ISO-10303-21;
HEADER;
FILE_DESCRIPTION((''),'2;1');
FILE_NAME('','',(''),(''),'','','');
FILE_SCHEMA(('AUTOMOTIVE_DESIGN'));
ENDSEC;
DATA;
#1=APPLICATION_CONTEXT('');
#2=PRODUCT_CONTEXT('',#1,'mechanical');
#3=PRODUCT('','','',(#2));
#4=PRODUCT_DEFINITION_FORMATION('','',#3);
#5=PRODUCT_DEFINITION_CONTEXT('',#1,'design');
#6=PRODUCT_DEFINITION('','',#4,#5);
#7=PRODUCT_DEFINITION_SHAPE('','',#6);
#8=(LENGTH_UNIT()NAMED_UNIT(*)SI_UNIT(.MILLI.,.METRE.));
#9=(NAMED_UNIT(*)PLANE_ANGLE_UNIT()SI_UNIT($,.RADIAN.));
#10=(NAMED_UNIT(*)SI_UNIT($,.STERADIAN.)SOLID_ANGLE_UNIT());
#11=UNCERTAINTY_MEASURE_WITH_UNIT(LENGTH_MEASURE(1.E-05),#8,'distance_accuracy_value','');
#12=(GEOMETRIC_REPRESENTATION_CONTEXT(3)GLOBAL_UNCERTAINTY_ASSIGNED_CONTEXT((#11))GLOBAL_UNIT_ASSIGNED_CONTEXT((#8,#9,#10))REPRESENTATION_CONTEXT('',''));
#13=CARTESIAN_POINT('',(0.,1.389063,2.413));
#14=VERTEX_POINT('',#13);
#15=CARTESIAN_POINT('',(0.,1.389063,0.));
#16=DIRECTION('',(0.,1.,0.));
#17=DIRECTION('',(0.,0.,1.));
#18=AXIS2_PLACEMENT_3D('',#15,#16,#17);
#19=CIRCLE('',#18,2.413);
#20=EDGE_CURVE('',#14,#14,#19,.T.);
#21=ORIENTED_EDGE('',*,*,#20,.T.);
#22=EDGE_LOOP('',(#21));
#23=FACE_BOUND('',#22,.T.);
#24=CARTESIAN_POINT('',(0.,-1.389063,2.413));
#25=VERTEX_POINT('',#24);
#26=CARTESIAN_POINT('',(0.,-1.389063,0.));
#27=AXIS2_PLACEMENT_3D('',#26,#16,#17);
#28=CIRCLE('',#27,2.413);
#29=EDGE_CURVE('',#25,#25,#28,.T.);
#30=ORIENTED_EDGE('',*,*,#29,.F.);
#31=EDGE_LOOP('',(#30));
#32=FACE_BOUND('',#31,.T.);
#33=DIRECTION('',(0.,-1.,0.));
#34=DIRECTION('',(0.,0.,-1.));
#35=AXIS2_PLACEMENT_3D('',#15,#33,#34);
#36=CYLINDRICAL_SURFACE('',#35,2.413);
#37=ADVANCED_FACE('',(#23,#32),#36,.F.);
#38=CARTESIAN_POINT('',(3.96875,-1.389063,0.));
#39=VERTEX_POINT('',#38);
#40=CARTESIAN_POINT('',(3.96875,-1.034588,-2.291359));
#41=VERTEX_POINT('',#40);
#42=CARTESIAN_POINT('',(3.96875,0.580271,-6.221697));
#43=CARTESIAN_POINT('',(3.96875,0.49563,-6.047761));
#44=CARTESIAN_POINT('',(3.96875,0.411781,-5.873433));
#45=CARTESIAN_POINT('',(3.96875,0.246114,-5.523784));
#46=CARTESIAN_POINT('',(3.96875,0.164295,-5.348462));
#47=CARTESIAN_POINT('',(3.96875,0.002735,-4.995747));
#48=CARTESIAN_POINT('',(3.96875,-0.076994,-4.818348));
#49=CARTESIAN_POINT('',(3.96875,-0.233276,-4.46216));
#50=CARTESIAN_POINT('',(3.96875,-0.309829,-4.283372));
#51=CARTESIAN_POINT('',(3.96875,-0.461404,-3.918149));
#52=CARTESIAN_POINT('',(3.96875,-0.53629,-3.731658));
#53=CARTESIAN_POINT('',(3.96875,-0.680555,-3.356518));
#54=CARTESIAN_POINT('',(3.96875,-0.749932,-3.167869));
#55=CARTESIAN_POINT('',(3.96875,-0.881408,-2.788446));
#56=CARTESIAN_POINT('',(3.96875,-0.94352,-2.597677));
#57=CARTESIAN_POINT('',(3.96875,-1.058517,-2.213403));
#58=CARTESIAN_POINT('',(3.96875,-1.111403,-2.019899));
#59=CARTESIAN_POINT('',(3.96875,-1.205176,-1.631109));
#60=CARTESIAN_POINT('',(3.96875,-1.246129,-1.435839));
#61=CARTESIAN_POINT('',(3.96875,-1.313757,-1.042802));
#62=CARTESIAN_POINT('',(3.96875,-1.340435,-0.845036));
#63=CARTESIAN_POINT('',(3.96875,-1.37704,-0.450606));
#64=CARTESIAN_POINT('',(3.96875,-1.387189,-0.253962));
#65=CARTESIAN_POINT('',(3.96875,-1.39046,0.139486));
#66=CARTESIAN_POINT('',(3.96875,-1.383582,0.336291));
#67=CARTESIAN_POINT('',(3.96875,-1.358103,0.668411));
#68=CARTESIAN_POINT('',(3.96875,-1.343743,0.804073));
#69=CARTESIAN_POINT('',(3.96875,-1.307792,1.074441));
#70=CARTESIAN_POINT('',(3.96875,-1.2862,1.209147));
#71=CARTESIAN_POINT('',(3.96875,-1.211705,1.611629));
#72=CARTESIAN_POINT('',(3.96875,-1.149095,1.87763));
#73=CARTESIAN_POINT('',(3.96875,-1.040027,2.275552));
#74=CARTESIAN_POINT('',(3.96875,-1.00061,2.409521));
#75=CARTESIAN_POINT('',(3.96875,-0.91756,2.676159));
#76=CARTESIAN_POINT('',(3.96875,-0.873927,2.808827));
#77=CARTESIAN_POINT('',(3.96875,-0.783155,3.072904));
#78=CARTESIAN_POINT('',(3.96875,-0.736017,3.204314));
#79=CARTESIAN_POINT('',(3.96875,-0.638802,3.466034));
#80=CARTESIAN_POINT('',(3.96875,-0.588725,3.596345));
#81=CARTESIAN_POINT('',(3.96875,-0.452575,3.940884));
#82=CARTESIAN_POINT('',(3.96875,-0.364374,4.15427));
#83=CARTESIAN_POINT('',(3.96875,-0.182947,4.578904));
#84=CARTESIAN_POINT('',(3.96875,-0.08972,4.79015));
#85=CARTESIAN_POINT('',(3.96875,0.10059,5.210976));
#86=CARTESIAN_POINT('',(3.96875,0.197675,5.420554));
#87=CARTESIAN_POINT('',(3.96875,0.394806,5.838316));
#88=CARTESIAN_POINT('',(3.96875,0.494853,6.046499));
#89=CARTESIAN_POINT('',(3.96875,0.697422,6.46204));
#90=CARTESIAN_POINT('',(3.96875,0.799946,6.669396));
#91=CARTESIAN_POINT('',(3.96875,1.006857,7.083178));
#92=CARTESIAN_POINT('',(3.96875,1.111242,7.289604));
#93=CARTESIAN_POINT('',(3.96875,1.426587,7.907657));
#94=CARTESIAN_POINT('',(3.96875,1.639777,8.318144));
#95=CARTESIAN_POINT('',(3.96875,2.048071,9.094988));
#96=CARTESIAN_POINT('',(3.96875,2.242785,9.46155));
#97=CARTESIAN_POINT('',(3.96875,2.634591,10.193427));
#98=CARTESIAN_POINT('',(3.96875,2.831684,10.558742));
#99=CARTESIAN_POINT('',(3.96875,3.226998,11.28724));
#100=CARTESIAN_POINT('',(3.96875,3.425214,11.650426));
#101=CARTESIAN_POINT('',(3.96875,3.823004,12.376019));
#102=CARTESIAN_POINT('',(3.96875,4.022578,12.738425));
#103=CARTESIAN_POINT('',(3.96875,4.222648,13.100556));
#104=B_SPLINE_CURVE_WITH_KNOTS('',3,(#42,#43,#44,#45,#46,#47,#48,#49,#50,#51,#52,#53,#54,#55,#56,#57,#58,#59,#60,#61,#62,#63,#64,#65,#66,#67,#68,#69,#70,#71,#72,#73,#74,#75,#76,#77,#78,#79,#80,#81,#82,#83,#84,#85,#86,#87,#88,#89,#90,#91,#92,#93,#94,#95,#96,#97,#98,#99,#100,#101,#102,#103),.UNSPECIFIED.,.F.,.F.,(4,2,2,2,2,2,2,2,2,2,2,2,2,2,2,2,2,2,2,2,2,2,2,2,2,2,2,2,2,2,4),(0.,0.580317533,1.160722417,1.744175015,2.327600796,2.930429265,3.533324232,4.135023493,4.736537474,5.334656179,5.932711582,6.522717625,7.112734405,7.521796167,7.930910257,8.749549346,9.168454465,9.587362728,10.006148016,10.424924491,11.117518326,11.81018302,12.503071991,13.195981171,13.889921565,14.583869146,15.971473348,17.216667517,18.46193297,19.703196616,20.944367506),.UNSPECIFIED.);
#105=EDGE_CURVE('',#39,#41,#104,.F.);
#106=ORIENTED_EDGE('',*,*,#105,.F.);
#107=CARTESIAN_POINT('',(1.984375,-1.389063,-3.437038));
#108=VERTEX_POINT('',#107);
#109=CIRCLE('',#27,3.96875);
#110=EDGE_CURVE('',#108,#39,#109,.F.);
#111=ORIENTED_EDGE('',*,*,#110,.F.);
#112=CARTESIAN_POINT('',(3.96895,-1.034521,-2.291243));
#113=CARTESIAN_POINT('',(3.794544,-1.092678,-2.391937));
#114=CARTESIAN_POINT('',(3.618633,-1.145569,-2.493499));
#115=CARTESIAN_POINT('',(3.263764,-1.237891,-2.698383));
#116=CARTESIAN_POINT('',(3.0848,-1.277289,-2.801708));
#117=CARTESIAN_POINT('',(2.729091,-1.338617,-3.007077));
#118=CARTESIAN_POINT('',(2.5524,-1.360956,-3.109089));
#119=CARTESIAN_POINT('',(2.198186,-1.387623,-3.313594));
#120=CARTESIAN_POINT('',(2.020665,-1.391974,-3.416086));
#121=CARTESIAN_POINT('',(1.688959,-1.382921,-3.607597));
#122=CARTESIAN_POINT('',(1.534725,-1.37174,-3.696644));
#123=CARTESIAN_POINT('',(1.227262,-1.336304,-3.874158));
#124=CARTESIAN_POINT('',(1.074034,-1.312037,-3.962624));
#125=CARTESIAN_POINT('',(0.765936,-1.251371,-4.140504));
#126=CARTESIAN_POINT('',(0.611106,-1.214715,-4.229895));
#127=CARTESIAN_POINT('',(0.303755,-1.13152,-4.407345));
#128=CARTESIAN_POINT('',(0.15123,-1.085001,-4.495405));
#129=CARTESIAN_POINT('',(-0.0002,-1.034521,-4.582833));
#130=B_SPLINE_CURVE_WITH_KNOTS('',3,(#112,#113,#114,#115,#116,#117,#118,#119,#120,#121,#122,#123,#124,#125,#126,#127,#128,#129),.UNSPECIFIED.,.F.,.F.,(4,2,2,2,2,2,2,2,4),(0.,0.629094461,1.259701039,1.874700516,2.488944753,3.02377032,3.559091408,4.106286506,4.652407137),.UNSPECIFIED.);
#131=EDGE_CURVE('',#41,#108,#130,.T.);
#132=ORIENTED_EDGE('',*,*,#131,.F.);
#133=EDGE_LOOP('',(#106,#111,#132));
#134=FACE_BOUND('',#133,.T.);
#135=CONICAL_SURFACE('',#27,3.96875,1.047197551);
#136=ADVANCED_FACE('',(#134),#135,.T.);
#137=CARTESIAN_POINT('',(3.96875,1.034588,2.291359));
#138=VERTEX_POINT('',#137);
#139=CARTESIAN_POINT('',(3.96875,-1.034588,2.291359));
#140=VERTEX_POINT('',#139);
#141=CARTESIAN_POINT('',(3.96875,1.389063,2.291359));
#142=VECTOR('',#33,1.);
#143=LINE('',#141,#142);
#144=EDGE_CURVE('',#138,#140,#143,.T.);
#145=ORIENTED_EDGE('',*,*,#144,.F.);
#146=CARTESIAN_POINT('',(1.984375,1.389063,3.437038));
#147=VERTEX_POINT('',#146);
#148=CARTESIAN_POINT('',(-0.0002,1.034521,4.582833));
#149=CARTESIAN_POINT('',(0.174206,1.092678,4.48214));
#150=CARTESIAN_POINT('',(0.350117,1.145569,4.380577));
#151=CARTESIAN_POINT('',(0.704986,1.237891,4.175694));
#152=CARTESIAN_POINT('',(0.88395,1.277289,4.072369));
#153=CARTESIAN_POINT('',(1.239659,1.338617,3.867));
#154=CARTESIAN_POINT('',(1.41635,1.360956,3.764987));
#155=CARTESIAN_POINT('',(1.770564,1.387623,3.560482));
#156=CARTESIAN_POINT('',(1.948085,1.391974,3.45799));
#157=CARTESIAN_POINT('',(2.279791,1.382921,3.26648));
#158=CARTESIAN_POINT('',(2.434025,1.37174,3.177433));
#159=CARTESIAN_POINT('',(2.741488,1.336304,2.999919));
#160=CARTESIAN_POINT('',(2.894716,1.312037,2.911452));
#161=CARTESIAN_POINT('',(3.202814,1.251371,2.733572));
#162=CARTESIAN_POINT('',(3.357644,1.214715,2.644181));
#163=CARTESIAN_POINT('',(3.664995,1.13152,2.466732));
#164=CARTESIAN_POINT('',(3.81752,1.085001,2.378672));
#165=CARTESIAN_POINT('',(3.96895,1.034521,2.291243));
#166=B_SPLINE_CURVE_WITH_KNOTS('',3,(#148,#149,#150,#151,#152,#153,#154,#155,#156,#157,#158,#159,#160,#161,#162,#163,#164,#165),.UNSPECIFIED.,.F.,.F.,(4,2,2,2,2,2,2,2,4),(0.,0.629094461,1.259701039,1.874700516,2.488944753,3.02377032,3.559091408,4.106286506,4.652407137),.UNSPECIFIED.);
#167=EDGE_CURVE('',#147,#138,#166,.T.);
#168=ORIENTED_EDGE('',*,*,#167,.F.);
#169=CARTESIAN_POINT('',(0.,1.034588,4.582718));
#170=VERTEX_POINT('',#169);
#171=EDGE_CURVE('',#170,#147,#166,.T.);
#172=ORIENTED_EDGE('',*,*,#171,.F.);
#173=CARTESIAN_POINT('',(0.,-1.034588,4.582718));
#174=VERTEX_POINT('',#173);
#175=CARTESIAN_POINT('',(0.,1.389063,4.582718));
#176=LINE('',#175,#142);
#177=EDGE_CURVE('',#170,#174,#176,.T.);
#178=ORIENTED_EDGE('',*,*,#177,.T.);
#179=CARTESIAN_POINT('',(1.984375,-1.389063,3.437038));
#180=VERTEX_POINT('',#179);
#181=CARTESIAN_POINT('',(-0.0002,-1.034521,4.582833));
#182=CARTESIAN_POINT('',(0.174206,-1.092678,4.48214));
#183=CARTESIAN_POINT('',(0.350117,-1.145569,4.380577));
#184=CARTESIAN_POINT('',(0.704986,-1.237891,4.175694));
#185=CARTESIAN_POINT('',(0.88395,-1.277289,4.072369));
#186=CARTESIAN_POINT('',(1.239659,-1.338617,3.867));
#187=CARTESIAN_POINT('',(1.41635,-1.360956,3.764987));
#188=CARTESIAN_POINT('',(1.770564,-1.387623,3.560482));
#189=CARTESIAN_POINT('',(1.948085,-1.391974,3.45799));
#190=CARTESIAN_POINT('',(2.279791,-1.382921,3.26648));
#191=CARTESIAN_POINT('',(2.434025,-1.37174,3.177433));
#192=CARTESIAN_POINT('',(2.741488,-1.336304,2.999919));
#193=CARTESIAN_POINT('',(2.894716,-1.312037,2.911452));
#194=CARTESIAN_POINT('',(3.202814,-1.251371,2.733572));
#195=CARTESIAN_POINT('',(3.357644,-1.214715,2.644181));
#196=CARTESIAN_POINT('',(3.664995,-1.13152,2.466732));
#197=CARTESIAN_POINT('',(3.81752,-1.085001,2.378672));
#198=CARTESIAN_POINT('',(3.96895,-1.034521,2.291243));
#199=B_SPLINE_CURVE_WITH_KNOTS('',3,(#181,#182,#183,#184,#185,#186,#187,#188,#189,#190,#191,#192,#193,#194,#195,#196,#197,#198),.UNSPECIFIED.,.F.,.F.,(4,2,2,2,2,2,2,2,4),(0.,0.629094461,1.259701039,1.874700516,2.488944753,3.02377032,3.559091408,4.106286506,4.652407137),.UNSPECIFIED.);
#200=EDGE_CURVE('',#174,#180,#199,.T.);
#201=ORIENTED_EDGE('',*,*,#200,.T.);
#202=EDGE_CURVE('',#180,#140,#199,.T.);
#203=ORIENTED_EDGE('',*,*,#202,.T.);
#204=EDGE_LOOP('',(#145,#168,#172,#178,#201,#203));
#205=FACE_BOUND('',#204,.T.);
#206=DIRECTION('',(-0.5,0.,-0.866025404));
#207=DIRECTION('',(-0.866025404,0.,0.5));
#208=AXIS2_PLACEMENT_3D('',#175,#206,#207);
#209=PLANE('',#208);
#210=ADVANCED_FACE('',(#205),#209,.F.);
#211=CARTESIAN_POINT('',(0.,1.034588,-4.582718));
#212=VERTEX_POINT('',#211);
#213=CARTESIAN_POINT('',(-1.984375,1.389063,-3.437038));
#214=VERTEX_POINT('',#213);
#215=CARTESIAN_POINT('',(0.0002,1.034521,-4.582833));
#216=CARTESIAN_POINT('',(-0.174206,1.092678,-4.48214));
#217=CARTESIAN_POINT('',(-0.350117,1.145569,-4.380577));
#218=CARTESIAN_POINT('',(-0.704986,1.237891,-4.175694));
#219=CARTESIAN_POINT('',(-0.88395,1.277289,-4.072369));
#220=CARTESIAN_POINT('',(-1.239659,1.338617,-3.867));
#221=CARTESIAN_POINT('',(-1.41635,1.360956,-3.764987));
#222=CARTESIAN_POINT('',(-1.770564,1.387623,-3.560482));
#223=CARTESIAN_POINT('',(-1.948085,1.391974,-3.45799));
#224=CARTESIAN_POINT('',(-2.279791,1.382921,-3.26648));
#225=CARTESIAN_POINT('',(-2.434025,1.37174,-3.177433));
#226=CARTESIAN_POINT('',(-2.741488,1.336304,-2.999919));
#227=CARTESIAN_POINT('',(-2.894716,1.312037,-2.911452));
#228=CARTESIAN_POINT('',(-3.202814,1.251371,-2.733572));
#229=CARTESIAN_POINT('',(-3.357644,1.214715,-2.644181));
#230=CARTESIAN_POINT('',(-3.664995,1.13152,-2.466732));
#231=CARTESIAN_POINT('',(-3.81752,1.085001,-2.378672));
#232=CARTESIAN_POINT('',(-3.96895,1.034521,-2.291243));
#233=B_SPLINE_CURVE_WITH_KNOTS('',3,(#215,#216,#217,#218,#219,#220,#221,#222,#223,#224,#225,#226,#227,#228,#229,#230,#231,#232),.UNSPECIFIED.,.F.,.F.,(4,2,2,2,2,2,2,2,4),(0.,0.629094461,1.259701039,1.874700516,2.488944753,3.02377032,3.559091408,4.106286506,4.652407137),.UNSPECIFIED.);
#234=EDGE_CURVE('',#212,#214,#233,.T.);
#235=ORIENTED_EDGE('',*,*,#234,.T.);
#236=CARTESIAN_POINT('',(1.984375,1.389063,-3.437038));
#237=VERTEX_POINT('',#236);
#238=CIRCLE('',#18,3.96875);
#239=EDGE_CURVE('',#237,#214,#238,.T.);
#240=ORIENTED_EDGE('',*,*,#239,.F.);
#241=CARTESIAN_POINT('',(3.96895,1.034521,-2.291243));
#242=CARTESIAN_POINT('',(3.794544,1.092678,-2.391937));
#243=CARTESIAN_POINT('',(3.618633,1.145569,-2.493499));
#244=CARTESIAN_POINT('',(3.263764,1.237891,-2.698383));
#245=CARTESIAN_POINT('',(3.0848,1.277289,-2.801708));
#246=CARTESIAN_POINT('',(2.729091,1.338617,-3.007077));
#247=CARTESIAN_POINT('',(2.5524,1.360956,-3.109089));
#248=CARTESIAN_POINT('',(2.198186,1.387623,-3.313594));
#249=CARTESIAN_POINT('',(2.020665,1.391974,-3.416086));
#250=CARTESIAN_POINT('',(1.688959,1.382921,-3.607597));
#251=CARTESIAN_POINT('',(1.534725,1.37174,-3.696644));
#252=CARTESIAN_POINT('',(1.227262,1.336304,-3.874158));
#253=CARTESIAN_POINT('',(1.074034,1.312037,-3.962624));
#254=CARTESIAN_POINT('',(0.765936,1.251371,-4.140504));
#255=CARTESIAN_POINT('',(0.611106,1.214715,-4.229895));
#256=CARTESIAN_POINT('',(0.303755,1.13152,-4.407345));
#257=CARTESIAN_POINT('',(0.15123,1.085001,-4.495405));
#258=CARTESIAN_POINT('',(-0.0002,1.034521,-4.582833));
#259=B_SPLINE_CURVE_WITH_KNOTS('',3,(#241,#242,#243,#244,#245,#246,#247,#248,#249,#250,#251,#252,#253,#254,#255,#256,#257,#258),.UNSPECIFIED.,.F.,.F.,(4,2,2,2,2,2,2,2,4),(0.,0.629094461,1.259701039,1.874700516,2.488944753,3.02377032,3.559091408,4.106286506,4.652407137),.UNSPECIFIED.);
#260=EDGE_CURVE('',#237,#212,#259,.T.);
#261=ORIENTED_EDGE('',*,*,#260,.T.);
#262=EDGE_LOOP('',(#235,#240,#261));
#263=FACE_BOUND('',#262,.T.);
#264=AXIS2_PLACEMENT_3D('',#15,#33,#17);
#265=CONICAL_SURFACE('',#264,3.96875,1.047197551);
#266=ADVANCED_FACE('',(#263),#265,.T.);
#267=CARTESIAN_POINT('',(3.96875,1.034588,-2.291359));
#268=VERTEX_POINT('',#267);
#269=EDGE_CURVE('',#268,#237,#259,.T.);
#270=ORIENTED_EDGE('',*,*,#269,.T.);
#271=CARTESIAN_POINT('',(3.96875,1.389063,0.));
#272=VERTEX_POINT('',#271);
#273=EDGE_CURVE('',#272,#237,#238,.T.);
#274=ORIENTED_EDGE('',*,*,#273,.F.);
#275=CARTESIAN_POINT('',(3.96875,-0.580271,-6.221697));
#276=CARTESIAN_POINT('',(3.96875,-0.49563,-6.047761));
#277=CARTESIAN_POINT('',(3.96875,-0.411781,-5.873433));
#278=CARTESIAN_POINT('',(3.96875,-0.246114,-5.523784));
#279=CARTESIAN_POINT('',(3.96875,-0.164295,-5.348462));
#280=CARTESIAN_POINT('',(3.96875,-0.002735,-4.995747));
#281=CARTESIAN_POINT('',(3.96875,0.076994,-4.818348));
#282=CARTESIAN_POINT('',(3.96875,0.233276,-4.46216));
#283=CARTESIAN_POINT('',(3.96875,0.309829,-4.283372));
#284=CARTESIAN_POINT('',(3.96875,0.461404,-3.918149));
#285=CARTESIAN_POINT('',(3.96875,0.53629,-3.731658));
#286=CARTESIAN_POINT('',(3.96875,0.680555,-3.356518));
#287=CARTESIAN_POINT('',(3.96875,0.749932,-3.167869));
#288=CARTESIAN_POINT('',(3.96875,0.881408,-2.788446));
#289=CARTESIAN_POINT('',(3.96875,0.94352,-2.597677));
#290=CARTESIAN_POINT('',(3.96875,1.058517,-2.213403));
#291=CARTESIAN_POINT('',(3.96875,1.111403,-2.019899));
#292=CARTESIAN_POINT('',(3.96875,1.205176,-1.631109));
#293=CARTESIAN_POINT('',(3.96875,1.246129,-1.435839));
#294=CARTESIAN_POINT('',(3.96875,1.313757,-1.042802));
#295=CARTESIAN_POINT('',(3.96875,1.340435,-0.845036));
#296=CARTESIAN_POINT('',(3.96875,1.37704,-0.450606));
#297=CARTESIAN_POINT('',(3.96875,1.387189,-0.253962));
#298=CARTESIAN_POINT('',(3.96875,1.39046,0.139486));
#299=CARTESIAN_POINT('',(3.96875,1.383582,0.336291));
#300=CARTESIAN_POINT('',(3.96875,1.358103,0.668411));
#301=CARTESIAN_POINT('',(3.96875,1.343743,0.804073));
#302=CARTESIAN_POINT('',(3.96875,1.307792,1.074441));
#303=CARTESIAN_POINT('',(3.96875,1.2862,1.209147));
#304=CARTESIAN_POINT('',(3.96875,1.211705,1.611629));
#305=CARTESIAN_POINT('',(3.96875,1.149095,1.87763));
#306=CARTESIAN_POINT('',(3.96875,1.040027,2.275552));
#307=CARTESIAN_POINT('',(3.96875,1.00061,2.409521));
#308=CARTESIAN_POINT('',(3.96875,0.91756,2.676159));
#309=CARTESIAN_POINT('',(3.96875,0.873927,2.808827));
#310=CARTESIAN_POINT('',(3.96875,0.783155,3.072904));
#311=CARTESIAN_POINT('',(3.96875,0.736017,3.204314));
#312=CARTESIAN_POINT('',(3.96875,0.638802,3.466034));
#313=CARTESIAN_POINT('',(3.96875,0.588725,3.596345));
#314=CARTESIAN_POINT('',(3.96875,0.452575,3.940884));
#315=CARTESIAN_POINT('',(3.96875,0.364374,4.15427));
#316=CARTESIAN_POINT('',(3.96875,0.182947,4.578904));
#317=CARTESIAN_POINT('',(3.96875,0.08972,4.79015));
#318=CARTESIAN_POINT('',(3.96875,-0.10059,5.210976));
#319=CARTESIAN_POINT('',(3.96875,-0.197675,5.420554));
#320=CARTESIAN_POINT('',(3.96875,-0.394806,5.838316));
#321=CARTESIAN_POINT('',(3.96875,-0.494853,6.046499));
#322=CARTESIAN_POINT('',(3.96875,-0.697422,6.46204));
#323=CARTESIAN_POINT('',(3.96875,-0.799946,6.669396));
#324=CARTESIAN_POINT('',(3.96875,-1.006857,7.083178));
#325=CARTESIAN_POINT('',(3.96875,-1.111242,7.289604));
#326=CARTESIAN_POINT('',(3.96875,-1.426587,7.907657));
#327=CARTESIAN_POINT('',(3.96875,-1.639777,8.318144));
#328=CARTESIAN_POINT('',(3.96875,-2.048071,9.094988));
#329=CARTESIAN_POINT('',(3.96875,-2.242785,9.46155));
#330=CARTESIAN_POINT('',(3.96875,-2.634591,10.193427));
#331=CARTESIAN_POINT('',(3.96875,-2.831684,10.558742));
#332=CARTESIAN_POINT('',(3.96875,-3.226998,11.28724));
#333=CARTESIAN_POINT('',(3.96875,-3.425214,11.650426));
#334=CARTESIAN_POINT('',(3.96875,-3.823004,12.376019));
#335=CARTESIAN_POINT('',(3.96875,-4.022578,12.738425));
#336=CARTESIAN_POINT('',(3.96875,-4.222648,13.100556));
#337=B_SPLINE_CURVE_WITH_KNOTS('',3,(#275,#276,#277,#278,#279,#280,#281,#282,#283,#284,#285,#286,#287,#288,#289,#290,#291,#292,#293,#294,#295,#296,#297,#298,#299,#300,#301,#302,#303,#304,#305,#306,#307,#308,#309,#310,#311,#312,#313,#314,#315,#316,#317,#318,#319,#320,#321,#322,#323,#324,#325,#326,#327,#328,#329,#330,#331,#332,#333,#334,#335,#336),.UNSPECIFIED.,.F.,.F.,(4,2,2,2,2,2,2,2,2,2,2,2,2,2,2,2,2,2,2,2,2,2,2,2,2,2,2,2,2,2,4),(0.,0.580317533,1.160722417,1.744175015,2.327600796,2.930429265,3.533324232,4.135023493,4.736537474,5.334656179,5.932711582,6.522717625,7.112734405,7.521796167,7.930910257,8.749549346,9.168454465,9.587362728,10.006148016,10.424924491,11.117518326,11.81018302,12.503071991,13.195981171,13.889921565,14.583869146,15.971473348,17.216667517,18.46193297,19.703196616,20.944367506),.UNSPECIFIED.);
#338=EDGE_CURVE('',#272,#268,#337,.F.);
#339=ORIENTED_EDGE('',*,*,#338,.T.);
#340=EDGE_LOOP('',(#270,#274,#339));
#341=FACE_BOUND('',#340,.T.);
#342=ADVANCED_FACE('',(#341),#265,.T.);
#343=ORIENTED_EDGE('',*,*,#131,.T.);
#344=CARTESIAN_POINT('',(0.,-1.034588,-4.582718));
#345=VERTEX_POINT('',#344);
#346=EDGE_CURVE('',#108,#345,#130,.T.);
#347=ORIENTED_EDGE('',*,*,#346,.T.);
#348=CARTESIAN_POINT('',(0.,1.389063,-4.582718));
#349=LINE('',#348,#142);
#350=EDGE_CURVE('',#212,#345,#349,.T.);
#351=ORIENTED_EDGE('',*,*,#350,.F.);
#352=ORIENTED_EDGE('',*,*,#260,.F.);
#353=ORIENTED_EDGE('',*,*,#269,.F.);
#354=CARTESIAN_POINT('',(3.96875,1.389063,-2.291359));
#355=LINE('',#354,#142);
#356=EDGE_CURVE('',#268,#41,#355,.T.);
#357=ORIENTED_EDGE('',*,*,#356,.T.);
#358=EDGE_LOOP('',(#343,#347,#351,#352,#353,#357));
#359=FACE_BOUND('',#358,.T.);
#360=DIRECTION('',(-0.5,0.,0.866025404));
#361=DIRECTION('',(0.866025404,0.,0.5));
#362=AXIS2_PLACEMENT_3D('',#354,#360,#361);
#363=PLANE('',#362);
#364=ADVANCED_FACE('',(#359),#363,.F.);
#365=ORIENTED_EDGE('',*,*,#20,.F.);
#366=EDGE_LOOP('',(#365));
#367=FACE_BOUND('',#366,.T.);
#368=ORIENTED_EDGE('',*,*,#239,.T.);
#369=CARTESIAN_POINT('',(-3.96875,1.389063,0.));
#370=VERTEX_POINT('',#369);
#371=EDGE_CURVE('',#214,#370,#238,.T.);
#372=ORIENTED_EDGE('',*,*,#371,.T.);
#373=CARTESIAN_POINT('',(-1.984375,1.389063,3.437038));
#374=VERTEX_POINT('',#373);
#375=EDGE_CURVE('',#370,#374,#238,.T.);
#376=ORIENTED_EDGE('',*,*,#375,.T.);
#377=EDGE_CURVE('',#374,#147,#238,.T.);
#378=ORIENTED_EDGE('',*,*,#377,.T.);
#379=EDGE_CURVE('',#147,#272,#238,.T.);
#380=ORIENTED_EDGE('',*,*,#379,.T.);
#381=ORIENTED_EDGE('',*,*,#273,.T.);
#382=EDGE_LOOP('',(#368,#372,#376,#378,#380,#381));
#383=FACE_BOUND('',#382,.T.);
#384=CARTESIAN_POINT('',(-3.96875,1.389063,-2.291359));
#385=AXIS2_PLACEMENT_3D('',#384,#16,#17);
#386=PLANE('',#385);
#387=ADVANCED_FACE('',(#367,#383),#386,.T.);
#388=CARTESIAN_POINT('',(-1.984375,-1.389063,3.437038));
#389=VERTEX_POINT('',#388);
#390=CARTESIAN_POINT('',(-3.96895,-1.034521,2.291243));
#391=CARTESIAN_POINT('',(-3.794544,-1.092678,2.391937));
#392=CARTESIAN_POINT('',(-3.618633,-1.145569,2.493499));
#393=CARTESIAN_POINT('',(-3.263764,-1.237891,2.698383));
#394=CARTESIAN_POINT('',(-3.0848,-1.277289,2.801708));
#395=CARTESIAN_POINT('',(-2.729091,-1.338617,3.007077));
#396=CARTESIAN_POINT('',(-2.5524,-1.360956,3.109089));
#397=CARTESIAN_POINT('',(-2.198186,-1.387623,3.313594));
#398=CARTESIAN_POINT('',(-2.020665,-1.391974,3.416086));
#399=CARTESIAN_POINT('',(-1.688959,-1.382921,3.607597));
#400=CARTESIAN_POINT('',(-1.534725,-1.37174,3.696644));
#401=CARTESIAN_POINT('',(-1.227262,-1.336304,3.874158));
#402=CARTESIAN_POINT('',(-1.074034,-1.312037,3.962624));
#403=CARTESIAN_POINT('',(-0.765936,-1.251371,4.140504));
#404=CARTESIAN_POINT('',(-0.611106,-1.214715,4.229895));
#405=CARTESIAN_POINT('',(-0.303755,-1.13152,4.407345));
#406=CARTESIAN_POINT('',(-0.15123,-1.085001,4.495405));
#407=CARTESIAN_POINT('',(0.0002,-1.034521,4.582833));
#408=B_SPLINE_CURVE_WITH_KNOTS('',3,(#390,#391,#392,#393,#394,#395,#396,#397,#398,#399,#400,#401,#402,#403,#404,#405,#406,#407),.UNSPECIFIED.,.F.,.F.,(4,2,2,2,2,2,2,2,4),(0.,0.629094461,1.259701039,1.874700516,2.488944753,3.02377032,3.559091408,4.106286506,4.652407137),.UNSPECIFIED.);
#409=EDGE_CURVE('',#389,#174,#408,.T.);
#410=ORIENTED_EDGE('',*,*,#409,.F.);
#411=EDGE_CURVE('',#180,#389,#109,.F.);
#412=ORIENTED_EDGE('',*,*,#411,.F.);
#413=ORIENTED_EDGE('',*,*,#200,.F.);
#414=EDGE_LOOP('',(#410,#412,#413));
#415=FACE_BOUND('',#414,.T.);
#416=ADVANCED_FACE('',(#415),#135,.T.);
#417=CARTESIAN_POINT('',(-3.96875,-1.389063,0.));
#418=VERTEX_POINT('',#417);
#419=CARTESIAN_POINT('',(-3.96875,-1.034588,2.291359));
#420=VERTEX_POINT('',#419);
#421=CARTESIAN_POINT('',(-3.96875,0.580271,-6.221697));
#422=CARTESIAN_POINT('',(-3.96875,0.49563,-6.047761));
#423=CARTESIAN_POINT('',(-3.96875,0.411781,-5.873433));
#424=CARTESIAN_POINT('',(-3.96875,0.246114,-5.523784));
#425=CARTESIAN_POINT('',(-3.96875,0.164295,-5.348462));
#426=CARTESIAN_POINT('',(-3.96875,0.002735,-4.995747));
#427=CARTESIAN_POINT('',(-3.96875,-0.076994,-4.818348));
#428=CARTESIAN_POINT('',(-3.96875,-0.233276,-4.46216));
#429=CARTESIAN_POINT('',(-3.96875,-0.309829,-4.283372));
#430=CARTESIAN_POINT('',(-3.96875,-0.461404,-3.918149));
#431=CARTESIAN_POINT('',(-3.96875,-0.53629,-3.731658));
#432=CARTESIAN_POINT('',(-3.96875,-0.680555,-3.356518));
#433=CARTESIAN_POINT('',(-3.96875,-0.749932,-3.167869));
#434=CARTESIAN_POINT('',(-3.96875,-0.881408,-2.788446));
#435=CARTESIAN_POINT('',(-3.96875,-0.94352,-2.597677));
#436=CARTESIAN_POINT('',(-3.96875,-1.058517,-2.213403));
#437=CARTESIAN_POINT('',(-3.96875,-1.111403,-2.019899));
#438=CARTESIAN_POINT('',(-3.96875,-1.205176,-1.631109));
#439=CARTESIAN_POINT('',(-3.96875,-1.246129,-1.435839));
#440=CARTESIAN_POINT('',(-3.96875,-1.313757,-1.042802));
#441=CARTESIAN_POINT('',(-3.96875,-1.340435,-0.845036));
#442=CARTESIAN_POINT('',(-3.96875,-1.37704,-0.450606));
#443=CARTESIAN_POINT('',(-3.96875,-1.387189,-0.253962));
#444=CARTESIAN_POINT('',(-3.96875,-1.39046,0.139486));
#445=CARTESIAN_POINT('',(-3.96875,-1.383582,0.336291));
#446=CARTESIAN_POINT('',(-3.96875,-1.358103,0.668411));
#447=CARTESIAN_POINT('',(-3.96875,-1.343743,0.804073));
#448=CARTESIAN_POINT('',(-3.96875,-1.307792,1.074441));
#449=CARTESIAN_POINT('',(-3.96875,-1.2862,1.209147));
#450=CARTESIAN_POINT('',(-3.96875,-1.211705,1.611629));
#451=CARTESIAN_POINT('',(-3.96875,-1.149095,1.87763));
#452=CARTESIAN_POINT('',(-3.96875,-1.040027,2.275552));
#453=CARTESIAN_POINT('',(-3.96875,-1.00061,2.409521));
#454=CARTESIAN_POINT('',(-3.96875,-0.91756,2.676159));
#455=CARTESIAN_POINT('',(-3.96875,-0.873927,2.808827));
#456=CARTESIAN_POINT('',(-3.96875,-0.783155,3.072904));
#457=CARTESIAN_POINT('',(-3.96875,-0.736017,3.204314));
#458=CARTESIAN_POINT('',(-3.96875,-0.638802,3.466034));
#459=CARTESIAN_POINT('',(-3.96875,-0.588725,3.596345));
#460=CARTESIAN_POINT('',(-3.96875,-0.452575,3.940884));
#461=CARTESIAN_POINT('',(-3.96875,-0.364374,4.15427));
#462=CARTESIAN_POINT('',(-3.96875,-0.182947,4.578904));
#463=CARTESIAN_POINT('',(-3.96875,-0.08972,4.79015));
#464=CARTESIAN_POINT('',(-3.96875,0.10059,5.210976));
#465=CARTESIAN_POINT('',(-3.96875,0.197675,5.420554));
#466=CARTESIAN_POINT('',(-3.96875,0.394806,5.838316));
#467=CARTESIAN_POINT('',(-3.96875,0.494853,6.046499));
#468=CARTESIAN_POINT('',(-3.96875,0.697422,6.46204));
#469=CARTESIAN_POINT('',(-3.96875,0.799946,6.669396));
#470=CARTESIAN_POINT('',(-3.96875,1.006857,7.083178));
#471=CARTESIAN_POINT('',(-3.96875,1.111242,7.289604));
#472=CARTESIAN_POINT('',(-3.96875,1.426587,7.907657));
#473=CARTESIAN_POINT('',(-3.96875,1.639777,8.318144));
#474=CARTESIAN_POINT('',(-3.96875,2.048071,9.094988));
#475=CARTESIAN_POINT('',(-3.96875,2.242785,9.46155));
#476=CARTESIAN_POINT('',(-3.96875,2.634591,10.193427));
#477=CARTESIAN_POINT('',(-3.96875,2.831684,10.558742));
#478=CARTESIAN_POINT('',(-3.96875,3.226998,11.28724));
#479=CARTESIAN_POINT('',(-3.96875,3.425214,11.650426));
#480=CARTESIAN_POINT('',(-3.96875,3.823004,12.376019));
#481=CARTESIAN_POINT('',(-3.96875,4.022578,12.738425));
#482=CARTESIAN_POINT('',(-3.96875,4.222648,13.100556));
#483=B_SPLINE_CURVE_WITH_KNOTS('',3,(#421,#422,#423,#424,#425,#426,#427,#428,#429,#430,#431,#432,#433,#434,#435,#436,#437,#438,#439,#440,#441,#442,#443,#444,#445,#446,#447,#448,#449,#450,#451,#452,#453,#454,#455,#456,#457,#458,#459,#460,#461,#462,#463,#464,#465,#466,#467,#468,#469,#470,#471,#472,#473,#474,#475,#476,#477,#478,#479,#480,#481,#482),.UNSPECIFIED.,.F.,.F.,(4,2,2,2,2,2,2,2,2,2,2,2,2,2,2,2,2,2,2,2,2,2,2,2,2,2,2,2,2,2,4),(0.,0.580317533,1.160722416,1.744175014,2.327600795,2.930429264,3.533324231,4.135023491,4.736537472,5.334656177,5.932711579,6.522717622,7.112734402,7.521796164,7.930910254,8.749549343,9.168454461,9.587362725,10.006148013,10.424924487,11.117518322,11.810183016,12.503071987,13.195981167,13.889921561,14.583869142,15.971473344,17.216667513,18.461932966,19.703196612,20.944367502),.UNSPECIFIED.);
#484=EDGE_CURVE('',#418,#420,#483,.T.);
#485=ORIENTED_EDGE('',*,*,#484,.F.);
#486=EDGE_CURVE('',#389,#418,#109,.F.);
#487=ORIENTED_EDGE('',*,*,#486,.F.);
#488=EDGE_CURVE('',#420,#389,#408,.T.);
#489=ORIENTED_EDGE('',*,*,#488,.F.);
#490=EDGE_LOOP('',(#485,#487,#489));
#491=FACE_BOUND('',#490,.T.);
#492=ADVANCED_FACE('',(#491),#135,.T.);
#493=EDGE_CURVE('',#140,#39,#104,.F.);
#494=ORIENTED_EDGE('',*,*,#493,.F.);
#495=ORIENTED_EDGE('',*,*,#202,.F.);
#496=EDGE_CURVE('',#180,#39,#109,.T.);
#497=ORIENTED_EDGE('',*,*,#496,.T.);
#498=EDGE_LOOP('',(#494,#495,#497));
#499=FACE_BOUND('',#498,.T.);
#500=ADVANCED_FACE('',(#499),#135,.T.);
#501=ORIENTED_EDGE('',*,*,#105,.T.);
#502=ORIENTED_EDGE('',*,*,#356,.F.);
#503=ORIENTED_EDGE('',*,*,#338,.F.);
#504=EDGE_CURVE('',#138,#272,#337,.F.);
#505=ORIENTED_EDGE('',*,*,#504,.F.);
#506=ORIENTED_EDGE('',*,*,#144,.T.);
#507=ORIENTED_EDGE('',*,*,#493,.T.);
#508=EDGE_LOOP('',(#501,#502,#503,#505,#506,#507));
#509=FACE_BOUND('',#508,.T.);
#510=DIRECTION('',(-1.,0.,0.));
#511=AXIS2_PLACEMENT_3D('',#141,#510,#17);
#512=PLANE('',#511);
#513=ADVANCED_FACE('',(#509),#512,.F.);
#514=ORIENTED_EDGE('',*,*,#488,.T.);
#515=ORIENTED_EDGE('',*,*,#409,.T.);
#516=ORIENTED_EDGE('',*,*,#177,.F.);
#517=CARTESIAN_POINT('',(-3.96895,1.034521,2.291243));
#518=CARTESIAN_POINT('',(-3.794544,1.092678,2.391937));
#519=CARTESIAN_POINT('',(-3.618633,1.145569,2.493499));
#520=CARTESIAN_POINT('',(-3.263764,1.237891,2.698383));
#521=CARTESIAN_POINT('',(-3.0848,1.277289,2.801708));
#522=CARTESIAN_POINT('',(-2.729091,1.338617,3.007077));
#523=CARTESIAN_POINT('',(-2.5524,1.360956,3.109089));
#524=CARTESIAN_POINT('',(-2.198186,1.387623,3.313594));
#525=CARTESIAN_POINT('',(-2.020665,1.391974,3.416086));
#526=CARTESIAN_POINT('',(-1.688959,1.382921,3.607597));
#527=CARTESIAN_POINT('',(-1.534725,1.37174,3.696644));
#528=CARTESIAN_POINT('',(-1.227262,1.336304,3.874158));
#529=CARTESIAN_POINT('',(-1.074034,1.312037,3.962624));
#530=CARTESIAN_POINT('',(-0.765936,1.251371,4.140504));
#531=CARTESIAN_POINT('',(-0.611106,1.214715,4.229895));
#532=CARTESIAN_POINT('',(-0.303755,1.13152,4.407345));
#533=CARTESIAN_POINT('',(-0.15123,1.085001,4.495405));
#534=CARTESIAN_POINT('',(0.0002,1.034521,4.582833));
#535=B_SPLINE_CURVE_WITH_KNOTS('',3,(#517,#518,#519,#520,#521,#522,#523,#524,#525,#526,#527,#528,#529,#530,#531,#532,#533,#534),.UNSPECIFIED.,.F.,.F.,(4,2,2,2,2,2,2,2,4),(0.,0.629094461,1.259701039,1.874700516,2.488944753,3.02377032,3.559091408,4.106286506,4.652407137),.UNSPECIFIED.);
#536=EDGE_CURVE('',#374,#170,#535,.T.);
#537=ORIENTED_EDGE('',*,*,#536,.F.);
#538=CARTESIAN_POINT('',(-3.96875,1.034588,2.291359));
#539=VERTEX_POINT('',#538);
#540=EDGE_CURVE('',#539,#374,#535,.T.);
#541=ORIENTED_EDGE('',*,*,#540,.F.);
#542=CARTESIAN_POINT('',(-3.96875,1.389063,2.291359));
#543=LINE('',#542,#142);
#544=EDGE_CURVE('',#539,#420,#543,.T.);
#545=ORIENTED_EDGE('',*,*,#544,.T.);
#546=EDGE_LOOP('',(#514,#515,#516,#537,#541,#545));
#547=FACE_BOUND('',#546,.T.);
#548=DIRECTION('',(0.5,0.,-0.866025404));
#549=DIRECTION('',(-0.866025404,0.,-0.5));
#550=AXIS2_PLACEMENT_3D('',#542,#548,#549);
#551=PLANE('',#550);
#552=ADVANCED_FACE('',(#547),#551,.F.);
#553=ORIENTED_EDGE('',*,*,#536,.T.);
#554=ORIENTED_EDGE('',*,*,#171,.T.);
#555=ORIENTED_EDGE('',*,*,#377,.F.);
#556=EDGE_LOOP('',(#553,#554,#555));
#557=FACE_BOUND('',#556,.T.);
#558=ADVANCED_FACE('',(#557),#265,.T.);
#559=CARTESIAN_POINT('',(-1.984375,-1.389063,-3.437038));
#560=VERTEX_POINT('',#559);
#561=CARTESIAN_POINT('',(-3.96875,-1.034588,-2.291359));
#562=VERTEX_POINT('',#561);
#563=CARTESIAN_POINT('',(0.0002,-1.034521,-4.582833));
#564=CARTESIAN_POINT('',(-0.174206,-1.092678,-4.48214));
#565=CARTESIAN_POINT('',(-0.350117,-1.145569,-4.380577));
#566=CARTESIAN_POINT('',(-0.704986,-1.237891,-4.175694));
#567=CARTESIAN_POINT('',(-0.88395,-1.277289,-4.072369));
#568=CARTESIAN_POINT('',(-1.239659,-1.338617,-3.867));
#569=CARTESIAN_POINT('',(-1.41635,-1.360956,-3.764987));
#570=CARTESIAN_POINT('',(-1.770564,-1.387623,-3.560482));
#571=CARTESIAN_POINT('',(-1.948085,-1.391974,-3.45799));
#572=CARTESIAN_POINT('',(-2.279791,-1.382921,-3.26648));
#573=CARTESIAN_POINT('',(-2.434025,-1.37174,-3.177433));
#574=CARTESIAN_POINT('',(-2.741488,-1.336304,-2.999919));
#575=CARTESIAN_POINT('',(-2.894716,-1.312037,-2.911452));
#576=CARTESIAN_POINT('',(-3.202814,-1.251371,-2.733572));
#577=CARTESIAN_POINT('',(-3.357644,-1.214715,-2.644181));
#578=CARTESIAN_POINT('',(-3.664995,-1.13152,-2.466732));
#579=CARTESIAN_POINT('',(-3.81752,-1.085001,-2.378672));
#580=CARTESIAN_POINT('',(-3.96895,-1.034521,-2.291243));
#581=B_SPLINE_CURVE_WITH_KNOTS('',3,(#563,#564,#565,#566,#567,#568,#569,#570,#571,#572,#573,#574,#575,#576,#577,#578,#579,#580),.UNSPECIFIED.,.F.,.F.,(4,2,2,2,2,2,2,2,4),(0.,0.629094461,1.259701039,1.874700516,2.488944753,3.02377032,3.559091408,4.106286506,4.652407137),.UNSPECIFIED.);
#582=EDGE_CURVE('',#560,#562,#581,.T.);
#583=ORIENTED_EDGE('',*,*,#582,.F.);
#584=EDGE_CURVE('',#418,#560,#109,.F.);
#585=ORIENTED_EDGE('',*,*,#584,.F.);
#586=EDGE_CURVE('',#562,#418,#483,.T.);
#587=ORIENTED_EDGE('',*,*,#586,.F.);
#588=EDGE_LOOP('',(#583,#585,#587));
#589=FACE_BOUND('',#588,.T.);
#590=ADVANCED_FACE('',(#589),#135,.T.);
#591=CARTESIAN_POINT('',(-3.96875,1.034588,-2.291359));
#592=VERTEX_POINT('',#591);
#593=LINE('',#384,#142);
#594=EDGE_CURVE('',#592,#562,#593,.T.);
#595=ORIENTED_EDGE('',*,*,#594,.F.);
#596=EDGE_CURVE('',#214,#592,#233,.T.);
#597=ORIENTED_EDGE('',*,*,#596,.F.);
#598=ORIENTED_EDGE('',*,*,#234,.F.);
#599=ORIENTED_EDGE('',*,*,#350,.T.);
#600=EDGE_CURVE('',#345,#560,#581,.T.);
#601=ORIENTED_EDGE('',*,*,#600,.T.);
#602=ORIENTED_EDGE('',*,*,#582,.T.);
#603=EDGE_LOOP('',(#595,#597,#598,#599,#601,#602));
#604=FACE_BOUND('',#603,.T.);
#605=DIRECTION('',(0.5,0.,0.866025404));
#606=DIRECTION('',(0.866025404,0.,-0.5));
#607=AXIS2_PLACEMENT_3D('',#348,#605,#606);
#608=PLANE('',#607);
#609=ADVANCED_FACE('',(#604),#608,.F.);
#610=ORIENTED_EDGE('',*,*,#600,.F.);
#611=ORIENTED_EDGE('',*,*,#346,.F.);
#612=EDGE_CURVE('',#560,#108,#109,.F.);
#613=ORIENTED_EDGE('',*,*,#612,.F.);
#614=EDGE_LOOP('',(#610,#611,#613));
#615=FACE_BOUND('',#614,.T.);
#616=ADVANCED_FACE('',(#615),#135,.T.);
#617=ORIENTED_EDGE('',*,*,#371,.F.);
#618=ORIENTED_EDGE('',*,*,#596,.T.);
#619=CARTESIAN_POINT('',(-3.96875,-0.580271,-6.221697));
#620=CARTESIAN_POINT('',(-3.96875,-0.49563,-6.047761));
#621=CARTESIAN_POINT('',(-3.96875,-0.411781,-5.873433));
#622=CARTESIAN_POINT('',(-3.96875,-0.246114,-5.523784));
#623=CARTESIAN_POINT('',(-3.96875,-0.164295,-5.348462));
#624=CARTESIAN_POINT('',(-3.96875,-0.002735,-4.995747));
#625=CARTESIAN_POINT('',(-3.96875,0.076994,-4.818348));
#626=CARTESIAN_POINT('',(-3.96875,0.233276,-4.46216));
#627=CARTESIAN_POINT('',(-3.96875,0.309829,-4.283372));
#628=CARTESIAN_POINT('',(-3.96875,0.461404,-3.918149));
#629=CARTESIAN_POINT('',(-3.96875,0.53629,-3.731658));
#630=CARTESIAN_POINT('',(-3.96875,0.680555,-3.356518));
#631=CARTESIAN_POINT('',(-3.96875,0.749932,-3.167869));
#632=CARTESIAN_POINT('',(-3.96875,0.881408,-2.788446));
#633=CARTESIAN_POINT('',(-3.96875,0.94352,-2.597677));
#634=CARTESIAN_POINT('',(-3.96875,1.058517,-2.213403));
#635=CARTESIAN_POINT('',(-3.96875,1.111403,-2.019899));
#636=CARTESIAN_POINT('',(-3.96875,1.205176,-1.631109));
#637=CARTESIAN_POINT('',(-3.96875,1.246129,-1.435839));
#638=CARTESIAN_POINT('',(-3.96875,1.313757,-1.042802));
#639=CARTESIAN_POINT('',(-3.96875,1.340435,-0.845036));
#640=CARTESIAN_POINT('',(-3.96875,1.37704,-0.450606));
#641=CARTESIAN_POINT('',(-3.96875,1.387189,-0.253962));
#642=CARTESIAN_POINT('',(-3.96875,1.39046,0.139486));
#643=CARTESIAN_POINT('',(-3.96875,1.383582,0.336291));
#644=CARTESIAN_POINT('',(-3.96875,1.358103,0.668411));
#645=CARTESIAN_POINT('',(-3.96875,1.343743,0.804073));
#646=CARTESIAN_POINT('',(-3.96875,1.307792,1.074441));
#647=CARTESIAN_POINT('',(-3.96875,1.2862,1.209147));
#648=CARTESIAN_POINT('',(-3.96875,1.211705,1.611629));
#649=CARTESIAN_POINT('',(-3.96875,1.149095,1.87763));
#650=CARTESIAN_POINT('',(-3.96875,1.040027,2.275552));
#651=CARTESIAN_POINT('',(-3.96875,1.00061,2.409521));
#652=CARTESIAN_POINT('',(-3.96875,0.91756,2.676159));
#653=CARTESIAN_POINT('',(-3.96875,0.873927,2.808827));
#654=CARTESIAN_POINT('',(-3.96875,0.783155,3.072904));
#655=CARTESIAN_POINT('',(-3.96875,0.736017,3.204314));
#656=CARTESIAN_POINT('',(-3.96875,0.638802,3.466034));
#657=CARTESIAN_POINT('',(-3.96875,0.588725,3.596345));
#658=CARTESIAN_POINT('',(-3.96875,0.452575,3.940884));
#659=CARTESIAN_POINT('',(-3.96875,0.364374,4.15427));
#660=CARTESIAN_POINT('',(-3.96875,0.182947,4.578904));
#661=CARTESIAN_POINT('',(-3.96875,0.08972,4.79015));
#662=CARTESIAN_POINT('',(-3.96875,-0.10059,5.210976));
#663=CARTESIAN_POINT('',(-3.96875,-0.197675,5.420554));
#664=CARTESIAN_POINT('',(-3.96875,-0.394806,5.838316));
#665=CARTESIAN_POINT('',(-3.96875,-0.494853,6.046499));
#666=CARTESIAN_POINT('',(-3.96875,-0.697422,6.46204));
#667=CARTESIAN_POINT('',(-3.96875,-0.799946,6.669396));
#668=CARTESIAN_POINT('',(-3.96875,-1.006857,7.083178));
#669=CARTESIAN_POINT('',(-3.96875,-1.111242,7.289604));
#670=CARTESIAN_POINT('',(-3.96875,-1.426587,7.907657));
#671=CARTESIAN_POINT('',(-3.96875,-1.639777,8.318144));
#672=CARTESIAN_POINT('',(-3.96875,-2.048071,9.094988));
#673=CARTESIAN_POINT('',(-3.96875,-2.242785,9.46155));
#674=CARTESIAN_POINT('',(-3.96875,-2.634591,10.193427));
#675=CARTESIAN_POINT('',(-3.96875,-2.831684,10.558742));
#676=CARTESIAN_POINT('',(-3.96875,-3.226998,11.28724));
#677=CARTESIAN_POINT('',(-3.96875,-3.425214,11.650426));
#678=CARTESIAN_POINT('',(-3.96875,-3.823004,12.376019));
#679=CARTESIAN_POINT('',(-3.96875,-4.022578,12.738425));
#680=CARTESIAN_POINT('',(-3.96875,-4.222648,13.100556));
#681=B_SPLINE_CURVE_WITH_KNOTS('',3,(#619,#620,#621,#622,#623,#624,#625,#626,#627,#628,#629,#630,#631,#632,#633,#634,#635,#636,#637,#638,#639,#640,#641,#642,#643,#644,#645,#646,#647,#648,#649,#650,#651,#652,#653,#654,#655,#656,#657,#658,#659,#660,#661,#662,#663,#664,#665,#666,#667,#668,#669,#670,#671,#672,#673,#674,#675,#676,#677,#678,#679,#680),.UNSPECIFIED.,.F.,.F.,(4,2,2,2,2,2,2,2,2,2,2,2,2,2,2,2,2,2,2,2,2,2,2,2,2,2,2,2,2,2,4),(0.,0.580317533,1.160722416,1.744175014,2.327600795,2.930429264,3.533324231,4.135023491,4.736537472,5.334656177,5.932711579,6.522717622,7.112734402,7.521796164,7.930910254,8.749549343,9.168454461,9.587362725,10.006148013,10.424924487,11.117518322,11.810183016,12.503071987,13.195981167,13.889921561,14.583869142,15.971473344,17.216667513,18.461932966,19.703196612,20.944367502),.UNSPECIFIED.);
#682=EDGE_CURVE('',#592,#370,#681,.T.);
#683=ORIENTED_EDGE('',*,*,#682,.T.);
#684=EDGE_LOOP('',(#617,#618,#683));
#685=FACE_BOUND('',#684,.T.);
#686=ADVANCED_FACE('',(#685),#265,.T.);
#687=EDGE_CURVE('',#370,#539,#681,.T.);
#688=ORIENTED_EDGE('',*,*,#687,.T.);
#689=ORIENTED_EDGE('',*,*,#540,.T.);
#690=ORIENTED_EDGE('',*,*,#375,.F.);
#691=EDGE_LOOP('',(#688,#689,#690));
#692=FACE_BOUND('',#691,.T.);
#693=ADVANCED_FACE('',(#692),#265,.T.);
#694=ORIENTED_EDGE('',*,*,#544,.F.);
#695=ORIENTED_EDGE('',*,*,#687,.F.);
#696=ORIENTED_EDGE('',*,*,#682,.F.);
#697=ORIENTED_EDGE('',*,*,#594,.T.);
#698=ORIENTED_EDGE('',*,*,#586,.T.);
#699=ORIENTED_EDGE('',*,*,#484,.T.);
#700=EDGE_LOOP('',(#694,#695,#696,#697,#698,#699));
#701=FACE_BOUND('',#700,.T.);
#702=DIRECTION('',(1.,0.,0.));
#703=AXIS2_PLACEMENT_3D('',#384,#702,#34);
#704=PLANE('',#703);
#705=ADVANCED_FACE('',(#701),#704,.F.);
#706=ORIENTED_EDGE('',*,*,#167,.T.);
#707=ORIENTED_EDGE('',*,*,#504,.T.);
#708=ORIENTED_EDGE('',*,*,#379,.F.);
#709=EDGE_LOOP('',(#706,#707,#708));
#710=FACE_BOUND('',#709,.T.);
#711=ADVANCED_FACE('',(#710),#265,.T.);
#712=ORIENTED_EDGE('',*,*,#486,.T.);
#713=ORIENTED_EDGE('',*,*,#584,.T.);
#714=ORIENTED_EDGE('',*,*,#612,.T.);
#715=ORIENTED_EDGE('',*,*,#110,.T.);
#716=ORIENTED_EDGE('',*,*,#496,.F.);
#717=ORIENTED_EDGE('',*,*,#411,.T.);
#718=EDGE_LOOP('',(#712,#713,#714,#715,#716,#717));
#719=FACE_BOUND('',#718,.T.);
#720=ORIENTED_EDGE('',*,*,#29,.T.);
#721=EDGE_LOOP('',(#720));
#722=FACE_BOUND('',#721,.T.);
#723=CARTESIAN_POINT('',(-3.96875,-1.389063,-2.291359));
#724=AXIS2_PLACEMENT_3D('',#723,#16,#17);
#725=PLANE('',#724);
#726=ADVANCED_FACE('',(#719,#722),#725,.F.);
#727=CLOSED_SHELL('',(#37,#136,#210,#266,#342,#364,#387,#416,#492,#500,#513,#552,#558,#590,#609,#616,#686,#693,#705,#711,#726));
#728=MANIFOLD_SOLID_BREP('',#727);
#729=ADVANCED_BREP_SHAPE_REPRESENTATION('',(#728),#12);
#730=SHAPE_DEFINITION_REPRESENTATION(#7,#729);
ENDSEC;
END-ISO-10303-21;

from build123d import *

# Parameters (mm, degrees)
SKETCH1_R           = 2.413
BOSS_EXTRUDE1_DEPTH = 1.3890625
SKETCH5_OUTSIDE_W   = 25.514
SKETCH5_OUTSIDE_H   = 26.742
SKETCH5_OUTSIDE_R   = 3.96875
CUT_EXTRUDE2_DEPTH  = 3.778125
CUT_EXTRUDE2_TAPER  = 60


with BuildPart() as part:
    # Sketch1 → Boss-Extrude1 (new body, symmetric)
    with BuildSketch(Plane(origin=(0, 0, 0), x_dir=(1, 0, 0), z_dir=(0, 1, 0))):
        Polygon((-3.96875, 2.291358881), (-3.96875, -2.291358881), (0, -4.582717762), (3.96875, -2.291358881), (3.96875, 2.291358881), (0, 4.582717762), align=None)
        Circle(SKETCH1_R, mode=Mode.SUBTRACT)
    extrude(amount=BOSS_EXTRUDE1_DEPTH, both=True)

    # Sketch5 outside → Cut-Extrude2 (cut, through all)
    with BuildSketch(Plane(origin=(0, 1.3890625, 0), x_dir=(1, 0, 0), z_dir=(0, 1, 0))):
        Rectangle(SKETCH5_OUTSIDE_W, SKETCH5_OUTSIDE_H)
        Circle(SKETCH5_OUTSIDE_R, mode=Mode.SUBTRACT)
    cut_extrude2 = extrude(amount=-CUT_EXTRUDE2_DEPTH, taper=CUT_EXTRUDE2_TAPER, mode=Mode.SUBTRACT)

    # Mirror1: Cut-Extrude2 across plane
    add(cut_extrude2.mirror(Plane.ZX), mode=Mode.SUBTRACT)


solid = part.part
